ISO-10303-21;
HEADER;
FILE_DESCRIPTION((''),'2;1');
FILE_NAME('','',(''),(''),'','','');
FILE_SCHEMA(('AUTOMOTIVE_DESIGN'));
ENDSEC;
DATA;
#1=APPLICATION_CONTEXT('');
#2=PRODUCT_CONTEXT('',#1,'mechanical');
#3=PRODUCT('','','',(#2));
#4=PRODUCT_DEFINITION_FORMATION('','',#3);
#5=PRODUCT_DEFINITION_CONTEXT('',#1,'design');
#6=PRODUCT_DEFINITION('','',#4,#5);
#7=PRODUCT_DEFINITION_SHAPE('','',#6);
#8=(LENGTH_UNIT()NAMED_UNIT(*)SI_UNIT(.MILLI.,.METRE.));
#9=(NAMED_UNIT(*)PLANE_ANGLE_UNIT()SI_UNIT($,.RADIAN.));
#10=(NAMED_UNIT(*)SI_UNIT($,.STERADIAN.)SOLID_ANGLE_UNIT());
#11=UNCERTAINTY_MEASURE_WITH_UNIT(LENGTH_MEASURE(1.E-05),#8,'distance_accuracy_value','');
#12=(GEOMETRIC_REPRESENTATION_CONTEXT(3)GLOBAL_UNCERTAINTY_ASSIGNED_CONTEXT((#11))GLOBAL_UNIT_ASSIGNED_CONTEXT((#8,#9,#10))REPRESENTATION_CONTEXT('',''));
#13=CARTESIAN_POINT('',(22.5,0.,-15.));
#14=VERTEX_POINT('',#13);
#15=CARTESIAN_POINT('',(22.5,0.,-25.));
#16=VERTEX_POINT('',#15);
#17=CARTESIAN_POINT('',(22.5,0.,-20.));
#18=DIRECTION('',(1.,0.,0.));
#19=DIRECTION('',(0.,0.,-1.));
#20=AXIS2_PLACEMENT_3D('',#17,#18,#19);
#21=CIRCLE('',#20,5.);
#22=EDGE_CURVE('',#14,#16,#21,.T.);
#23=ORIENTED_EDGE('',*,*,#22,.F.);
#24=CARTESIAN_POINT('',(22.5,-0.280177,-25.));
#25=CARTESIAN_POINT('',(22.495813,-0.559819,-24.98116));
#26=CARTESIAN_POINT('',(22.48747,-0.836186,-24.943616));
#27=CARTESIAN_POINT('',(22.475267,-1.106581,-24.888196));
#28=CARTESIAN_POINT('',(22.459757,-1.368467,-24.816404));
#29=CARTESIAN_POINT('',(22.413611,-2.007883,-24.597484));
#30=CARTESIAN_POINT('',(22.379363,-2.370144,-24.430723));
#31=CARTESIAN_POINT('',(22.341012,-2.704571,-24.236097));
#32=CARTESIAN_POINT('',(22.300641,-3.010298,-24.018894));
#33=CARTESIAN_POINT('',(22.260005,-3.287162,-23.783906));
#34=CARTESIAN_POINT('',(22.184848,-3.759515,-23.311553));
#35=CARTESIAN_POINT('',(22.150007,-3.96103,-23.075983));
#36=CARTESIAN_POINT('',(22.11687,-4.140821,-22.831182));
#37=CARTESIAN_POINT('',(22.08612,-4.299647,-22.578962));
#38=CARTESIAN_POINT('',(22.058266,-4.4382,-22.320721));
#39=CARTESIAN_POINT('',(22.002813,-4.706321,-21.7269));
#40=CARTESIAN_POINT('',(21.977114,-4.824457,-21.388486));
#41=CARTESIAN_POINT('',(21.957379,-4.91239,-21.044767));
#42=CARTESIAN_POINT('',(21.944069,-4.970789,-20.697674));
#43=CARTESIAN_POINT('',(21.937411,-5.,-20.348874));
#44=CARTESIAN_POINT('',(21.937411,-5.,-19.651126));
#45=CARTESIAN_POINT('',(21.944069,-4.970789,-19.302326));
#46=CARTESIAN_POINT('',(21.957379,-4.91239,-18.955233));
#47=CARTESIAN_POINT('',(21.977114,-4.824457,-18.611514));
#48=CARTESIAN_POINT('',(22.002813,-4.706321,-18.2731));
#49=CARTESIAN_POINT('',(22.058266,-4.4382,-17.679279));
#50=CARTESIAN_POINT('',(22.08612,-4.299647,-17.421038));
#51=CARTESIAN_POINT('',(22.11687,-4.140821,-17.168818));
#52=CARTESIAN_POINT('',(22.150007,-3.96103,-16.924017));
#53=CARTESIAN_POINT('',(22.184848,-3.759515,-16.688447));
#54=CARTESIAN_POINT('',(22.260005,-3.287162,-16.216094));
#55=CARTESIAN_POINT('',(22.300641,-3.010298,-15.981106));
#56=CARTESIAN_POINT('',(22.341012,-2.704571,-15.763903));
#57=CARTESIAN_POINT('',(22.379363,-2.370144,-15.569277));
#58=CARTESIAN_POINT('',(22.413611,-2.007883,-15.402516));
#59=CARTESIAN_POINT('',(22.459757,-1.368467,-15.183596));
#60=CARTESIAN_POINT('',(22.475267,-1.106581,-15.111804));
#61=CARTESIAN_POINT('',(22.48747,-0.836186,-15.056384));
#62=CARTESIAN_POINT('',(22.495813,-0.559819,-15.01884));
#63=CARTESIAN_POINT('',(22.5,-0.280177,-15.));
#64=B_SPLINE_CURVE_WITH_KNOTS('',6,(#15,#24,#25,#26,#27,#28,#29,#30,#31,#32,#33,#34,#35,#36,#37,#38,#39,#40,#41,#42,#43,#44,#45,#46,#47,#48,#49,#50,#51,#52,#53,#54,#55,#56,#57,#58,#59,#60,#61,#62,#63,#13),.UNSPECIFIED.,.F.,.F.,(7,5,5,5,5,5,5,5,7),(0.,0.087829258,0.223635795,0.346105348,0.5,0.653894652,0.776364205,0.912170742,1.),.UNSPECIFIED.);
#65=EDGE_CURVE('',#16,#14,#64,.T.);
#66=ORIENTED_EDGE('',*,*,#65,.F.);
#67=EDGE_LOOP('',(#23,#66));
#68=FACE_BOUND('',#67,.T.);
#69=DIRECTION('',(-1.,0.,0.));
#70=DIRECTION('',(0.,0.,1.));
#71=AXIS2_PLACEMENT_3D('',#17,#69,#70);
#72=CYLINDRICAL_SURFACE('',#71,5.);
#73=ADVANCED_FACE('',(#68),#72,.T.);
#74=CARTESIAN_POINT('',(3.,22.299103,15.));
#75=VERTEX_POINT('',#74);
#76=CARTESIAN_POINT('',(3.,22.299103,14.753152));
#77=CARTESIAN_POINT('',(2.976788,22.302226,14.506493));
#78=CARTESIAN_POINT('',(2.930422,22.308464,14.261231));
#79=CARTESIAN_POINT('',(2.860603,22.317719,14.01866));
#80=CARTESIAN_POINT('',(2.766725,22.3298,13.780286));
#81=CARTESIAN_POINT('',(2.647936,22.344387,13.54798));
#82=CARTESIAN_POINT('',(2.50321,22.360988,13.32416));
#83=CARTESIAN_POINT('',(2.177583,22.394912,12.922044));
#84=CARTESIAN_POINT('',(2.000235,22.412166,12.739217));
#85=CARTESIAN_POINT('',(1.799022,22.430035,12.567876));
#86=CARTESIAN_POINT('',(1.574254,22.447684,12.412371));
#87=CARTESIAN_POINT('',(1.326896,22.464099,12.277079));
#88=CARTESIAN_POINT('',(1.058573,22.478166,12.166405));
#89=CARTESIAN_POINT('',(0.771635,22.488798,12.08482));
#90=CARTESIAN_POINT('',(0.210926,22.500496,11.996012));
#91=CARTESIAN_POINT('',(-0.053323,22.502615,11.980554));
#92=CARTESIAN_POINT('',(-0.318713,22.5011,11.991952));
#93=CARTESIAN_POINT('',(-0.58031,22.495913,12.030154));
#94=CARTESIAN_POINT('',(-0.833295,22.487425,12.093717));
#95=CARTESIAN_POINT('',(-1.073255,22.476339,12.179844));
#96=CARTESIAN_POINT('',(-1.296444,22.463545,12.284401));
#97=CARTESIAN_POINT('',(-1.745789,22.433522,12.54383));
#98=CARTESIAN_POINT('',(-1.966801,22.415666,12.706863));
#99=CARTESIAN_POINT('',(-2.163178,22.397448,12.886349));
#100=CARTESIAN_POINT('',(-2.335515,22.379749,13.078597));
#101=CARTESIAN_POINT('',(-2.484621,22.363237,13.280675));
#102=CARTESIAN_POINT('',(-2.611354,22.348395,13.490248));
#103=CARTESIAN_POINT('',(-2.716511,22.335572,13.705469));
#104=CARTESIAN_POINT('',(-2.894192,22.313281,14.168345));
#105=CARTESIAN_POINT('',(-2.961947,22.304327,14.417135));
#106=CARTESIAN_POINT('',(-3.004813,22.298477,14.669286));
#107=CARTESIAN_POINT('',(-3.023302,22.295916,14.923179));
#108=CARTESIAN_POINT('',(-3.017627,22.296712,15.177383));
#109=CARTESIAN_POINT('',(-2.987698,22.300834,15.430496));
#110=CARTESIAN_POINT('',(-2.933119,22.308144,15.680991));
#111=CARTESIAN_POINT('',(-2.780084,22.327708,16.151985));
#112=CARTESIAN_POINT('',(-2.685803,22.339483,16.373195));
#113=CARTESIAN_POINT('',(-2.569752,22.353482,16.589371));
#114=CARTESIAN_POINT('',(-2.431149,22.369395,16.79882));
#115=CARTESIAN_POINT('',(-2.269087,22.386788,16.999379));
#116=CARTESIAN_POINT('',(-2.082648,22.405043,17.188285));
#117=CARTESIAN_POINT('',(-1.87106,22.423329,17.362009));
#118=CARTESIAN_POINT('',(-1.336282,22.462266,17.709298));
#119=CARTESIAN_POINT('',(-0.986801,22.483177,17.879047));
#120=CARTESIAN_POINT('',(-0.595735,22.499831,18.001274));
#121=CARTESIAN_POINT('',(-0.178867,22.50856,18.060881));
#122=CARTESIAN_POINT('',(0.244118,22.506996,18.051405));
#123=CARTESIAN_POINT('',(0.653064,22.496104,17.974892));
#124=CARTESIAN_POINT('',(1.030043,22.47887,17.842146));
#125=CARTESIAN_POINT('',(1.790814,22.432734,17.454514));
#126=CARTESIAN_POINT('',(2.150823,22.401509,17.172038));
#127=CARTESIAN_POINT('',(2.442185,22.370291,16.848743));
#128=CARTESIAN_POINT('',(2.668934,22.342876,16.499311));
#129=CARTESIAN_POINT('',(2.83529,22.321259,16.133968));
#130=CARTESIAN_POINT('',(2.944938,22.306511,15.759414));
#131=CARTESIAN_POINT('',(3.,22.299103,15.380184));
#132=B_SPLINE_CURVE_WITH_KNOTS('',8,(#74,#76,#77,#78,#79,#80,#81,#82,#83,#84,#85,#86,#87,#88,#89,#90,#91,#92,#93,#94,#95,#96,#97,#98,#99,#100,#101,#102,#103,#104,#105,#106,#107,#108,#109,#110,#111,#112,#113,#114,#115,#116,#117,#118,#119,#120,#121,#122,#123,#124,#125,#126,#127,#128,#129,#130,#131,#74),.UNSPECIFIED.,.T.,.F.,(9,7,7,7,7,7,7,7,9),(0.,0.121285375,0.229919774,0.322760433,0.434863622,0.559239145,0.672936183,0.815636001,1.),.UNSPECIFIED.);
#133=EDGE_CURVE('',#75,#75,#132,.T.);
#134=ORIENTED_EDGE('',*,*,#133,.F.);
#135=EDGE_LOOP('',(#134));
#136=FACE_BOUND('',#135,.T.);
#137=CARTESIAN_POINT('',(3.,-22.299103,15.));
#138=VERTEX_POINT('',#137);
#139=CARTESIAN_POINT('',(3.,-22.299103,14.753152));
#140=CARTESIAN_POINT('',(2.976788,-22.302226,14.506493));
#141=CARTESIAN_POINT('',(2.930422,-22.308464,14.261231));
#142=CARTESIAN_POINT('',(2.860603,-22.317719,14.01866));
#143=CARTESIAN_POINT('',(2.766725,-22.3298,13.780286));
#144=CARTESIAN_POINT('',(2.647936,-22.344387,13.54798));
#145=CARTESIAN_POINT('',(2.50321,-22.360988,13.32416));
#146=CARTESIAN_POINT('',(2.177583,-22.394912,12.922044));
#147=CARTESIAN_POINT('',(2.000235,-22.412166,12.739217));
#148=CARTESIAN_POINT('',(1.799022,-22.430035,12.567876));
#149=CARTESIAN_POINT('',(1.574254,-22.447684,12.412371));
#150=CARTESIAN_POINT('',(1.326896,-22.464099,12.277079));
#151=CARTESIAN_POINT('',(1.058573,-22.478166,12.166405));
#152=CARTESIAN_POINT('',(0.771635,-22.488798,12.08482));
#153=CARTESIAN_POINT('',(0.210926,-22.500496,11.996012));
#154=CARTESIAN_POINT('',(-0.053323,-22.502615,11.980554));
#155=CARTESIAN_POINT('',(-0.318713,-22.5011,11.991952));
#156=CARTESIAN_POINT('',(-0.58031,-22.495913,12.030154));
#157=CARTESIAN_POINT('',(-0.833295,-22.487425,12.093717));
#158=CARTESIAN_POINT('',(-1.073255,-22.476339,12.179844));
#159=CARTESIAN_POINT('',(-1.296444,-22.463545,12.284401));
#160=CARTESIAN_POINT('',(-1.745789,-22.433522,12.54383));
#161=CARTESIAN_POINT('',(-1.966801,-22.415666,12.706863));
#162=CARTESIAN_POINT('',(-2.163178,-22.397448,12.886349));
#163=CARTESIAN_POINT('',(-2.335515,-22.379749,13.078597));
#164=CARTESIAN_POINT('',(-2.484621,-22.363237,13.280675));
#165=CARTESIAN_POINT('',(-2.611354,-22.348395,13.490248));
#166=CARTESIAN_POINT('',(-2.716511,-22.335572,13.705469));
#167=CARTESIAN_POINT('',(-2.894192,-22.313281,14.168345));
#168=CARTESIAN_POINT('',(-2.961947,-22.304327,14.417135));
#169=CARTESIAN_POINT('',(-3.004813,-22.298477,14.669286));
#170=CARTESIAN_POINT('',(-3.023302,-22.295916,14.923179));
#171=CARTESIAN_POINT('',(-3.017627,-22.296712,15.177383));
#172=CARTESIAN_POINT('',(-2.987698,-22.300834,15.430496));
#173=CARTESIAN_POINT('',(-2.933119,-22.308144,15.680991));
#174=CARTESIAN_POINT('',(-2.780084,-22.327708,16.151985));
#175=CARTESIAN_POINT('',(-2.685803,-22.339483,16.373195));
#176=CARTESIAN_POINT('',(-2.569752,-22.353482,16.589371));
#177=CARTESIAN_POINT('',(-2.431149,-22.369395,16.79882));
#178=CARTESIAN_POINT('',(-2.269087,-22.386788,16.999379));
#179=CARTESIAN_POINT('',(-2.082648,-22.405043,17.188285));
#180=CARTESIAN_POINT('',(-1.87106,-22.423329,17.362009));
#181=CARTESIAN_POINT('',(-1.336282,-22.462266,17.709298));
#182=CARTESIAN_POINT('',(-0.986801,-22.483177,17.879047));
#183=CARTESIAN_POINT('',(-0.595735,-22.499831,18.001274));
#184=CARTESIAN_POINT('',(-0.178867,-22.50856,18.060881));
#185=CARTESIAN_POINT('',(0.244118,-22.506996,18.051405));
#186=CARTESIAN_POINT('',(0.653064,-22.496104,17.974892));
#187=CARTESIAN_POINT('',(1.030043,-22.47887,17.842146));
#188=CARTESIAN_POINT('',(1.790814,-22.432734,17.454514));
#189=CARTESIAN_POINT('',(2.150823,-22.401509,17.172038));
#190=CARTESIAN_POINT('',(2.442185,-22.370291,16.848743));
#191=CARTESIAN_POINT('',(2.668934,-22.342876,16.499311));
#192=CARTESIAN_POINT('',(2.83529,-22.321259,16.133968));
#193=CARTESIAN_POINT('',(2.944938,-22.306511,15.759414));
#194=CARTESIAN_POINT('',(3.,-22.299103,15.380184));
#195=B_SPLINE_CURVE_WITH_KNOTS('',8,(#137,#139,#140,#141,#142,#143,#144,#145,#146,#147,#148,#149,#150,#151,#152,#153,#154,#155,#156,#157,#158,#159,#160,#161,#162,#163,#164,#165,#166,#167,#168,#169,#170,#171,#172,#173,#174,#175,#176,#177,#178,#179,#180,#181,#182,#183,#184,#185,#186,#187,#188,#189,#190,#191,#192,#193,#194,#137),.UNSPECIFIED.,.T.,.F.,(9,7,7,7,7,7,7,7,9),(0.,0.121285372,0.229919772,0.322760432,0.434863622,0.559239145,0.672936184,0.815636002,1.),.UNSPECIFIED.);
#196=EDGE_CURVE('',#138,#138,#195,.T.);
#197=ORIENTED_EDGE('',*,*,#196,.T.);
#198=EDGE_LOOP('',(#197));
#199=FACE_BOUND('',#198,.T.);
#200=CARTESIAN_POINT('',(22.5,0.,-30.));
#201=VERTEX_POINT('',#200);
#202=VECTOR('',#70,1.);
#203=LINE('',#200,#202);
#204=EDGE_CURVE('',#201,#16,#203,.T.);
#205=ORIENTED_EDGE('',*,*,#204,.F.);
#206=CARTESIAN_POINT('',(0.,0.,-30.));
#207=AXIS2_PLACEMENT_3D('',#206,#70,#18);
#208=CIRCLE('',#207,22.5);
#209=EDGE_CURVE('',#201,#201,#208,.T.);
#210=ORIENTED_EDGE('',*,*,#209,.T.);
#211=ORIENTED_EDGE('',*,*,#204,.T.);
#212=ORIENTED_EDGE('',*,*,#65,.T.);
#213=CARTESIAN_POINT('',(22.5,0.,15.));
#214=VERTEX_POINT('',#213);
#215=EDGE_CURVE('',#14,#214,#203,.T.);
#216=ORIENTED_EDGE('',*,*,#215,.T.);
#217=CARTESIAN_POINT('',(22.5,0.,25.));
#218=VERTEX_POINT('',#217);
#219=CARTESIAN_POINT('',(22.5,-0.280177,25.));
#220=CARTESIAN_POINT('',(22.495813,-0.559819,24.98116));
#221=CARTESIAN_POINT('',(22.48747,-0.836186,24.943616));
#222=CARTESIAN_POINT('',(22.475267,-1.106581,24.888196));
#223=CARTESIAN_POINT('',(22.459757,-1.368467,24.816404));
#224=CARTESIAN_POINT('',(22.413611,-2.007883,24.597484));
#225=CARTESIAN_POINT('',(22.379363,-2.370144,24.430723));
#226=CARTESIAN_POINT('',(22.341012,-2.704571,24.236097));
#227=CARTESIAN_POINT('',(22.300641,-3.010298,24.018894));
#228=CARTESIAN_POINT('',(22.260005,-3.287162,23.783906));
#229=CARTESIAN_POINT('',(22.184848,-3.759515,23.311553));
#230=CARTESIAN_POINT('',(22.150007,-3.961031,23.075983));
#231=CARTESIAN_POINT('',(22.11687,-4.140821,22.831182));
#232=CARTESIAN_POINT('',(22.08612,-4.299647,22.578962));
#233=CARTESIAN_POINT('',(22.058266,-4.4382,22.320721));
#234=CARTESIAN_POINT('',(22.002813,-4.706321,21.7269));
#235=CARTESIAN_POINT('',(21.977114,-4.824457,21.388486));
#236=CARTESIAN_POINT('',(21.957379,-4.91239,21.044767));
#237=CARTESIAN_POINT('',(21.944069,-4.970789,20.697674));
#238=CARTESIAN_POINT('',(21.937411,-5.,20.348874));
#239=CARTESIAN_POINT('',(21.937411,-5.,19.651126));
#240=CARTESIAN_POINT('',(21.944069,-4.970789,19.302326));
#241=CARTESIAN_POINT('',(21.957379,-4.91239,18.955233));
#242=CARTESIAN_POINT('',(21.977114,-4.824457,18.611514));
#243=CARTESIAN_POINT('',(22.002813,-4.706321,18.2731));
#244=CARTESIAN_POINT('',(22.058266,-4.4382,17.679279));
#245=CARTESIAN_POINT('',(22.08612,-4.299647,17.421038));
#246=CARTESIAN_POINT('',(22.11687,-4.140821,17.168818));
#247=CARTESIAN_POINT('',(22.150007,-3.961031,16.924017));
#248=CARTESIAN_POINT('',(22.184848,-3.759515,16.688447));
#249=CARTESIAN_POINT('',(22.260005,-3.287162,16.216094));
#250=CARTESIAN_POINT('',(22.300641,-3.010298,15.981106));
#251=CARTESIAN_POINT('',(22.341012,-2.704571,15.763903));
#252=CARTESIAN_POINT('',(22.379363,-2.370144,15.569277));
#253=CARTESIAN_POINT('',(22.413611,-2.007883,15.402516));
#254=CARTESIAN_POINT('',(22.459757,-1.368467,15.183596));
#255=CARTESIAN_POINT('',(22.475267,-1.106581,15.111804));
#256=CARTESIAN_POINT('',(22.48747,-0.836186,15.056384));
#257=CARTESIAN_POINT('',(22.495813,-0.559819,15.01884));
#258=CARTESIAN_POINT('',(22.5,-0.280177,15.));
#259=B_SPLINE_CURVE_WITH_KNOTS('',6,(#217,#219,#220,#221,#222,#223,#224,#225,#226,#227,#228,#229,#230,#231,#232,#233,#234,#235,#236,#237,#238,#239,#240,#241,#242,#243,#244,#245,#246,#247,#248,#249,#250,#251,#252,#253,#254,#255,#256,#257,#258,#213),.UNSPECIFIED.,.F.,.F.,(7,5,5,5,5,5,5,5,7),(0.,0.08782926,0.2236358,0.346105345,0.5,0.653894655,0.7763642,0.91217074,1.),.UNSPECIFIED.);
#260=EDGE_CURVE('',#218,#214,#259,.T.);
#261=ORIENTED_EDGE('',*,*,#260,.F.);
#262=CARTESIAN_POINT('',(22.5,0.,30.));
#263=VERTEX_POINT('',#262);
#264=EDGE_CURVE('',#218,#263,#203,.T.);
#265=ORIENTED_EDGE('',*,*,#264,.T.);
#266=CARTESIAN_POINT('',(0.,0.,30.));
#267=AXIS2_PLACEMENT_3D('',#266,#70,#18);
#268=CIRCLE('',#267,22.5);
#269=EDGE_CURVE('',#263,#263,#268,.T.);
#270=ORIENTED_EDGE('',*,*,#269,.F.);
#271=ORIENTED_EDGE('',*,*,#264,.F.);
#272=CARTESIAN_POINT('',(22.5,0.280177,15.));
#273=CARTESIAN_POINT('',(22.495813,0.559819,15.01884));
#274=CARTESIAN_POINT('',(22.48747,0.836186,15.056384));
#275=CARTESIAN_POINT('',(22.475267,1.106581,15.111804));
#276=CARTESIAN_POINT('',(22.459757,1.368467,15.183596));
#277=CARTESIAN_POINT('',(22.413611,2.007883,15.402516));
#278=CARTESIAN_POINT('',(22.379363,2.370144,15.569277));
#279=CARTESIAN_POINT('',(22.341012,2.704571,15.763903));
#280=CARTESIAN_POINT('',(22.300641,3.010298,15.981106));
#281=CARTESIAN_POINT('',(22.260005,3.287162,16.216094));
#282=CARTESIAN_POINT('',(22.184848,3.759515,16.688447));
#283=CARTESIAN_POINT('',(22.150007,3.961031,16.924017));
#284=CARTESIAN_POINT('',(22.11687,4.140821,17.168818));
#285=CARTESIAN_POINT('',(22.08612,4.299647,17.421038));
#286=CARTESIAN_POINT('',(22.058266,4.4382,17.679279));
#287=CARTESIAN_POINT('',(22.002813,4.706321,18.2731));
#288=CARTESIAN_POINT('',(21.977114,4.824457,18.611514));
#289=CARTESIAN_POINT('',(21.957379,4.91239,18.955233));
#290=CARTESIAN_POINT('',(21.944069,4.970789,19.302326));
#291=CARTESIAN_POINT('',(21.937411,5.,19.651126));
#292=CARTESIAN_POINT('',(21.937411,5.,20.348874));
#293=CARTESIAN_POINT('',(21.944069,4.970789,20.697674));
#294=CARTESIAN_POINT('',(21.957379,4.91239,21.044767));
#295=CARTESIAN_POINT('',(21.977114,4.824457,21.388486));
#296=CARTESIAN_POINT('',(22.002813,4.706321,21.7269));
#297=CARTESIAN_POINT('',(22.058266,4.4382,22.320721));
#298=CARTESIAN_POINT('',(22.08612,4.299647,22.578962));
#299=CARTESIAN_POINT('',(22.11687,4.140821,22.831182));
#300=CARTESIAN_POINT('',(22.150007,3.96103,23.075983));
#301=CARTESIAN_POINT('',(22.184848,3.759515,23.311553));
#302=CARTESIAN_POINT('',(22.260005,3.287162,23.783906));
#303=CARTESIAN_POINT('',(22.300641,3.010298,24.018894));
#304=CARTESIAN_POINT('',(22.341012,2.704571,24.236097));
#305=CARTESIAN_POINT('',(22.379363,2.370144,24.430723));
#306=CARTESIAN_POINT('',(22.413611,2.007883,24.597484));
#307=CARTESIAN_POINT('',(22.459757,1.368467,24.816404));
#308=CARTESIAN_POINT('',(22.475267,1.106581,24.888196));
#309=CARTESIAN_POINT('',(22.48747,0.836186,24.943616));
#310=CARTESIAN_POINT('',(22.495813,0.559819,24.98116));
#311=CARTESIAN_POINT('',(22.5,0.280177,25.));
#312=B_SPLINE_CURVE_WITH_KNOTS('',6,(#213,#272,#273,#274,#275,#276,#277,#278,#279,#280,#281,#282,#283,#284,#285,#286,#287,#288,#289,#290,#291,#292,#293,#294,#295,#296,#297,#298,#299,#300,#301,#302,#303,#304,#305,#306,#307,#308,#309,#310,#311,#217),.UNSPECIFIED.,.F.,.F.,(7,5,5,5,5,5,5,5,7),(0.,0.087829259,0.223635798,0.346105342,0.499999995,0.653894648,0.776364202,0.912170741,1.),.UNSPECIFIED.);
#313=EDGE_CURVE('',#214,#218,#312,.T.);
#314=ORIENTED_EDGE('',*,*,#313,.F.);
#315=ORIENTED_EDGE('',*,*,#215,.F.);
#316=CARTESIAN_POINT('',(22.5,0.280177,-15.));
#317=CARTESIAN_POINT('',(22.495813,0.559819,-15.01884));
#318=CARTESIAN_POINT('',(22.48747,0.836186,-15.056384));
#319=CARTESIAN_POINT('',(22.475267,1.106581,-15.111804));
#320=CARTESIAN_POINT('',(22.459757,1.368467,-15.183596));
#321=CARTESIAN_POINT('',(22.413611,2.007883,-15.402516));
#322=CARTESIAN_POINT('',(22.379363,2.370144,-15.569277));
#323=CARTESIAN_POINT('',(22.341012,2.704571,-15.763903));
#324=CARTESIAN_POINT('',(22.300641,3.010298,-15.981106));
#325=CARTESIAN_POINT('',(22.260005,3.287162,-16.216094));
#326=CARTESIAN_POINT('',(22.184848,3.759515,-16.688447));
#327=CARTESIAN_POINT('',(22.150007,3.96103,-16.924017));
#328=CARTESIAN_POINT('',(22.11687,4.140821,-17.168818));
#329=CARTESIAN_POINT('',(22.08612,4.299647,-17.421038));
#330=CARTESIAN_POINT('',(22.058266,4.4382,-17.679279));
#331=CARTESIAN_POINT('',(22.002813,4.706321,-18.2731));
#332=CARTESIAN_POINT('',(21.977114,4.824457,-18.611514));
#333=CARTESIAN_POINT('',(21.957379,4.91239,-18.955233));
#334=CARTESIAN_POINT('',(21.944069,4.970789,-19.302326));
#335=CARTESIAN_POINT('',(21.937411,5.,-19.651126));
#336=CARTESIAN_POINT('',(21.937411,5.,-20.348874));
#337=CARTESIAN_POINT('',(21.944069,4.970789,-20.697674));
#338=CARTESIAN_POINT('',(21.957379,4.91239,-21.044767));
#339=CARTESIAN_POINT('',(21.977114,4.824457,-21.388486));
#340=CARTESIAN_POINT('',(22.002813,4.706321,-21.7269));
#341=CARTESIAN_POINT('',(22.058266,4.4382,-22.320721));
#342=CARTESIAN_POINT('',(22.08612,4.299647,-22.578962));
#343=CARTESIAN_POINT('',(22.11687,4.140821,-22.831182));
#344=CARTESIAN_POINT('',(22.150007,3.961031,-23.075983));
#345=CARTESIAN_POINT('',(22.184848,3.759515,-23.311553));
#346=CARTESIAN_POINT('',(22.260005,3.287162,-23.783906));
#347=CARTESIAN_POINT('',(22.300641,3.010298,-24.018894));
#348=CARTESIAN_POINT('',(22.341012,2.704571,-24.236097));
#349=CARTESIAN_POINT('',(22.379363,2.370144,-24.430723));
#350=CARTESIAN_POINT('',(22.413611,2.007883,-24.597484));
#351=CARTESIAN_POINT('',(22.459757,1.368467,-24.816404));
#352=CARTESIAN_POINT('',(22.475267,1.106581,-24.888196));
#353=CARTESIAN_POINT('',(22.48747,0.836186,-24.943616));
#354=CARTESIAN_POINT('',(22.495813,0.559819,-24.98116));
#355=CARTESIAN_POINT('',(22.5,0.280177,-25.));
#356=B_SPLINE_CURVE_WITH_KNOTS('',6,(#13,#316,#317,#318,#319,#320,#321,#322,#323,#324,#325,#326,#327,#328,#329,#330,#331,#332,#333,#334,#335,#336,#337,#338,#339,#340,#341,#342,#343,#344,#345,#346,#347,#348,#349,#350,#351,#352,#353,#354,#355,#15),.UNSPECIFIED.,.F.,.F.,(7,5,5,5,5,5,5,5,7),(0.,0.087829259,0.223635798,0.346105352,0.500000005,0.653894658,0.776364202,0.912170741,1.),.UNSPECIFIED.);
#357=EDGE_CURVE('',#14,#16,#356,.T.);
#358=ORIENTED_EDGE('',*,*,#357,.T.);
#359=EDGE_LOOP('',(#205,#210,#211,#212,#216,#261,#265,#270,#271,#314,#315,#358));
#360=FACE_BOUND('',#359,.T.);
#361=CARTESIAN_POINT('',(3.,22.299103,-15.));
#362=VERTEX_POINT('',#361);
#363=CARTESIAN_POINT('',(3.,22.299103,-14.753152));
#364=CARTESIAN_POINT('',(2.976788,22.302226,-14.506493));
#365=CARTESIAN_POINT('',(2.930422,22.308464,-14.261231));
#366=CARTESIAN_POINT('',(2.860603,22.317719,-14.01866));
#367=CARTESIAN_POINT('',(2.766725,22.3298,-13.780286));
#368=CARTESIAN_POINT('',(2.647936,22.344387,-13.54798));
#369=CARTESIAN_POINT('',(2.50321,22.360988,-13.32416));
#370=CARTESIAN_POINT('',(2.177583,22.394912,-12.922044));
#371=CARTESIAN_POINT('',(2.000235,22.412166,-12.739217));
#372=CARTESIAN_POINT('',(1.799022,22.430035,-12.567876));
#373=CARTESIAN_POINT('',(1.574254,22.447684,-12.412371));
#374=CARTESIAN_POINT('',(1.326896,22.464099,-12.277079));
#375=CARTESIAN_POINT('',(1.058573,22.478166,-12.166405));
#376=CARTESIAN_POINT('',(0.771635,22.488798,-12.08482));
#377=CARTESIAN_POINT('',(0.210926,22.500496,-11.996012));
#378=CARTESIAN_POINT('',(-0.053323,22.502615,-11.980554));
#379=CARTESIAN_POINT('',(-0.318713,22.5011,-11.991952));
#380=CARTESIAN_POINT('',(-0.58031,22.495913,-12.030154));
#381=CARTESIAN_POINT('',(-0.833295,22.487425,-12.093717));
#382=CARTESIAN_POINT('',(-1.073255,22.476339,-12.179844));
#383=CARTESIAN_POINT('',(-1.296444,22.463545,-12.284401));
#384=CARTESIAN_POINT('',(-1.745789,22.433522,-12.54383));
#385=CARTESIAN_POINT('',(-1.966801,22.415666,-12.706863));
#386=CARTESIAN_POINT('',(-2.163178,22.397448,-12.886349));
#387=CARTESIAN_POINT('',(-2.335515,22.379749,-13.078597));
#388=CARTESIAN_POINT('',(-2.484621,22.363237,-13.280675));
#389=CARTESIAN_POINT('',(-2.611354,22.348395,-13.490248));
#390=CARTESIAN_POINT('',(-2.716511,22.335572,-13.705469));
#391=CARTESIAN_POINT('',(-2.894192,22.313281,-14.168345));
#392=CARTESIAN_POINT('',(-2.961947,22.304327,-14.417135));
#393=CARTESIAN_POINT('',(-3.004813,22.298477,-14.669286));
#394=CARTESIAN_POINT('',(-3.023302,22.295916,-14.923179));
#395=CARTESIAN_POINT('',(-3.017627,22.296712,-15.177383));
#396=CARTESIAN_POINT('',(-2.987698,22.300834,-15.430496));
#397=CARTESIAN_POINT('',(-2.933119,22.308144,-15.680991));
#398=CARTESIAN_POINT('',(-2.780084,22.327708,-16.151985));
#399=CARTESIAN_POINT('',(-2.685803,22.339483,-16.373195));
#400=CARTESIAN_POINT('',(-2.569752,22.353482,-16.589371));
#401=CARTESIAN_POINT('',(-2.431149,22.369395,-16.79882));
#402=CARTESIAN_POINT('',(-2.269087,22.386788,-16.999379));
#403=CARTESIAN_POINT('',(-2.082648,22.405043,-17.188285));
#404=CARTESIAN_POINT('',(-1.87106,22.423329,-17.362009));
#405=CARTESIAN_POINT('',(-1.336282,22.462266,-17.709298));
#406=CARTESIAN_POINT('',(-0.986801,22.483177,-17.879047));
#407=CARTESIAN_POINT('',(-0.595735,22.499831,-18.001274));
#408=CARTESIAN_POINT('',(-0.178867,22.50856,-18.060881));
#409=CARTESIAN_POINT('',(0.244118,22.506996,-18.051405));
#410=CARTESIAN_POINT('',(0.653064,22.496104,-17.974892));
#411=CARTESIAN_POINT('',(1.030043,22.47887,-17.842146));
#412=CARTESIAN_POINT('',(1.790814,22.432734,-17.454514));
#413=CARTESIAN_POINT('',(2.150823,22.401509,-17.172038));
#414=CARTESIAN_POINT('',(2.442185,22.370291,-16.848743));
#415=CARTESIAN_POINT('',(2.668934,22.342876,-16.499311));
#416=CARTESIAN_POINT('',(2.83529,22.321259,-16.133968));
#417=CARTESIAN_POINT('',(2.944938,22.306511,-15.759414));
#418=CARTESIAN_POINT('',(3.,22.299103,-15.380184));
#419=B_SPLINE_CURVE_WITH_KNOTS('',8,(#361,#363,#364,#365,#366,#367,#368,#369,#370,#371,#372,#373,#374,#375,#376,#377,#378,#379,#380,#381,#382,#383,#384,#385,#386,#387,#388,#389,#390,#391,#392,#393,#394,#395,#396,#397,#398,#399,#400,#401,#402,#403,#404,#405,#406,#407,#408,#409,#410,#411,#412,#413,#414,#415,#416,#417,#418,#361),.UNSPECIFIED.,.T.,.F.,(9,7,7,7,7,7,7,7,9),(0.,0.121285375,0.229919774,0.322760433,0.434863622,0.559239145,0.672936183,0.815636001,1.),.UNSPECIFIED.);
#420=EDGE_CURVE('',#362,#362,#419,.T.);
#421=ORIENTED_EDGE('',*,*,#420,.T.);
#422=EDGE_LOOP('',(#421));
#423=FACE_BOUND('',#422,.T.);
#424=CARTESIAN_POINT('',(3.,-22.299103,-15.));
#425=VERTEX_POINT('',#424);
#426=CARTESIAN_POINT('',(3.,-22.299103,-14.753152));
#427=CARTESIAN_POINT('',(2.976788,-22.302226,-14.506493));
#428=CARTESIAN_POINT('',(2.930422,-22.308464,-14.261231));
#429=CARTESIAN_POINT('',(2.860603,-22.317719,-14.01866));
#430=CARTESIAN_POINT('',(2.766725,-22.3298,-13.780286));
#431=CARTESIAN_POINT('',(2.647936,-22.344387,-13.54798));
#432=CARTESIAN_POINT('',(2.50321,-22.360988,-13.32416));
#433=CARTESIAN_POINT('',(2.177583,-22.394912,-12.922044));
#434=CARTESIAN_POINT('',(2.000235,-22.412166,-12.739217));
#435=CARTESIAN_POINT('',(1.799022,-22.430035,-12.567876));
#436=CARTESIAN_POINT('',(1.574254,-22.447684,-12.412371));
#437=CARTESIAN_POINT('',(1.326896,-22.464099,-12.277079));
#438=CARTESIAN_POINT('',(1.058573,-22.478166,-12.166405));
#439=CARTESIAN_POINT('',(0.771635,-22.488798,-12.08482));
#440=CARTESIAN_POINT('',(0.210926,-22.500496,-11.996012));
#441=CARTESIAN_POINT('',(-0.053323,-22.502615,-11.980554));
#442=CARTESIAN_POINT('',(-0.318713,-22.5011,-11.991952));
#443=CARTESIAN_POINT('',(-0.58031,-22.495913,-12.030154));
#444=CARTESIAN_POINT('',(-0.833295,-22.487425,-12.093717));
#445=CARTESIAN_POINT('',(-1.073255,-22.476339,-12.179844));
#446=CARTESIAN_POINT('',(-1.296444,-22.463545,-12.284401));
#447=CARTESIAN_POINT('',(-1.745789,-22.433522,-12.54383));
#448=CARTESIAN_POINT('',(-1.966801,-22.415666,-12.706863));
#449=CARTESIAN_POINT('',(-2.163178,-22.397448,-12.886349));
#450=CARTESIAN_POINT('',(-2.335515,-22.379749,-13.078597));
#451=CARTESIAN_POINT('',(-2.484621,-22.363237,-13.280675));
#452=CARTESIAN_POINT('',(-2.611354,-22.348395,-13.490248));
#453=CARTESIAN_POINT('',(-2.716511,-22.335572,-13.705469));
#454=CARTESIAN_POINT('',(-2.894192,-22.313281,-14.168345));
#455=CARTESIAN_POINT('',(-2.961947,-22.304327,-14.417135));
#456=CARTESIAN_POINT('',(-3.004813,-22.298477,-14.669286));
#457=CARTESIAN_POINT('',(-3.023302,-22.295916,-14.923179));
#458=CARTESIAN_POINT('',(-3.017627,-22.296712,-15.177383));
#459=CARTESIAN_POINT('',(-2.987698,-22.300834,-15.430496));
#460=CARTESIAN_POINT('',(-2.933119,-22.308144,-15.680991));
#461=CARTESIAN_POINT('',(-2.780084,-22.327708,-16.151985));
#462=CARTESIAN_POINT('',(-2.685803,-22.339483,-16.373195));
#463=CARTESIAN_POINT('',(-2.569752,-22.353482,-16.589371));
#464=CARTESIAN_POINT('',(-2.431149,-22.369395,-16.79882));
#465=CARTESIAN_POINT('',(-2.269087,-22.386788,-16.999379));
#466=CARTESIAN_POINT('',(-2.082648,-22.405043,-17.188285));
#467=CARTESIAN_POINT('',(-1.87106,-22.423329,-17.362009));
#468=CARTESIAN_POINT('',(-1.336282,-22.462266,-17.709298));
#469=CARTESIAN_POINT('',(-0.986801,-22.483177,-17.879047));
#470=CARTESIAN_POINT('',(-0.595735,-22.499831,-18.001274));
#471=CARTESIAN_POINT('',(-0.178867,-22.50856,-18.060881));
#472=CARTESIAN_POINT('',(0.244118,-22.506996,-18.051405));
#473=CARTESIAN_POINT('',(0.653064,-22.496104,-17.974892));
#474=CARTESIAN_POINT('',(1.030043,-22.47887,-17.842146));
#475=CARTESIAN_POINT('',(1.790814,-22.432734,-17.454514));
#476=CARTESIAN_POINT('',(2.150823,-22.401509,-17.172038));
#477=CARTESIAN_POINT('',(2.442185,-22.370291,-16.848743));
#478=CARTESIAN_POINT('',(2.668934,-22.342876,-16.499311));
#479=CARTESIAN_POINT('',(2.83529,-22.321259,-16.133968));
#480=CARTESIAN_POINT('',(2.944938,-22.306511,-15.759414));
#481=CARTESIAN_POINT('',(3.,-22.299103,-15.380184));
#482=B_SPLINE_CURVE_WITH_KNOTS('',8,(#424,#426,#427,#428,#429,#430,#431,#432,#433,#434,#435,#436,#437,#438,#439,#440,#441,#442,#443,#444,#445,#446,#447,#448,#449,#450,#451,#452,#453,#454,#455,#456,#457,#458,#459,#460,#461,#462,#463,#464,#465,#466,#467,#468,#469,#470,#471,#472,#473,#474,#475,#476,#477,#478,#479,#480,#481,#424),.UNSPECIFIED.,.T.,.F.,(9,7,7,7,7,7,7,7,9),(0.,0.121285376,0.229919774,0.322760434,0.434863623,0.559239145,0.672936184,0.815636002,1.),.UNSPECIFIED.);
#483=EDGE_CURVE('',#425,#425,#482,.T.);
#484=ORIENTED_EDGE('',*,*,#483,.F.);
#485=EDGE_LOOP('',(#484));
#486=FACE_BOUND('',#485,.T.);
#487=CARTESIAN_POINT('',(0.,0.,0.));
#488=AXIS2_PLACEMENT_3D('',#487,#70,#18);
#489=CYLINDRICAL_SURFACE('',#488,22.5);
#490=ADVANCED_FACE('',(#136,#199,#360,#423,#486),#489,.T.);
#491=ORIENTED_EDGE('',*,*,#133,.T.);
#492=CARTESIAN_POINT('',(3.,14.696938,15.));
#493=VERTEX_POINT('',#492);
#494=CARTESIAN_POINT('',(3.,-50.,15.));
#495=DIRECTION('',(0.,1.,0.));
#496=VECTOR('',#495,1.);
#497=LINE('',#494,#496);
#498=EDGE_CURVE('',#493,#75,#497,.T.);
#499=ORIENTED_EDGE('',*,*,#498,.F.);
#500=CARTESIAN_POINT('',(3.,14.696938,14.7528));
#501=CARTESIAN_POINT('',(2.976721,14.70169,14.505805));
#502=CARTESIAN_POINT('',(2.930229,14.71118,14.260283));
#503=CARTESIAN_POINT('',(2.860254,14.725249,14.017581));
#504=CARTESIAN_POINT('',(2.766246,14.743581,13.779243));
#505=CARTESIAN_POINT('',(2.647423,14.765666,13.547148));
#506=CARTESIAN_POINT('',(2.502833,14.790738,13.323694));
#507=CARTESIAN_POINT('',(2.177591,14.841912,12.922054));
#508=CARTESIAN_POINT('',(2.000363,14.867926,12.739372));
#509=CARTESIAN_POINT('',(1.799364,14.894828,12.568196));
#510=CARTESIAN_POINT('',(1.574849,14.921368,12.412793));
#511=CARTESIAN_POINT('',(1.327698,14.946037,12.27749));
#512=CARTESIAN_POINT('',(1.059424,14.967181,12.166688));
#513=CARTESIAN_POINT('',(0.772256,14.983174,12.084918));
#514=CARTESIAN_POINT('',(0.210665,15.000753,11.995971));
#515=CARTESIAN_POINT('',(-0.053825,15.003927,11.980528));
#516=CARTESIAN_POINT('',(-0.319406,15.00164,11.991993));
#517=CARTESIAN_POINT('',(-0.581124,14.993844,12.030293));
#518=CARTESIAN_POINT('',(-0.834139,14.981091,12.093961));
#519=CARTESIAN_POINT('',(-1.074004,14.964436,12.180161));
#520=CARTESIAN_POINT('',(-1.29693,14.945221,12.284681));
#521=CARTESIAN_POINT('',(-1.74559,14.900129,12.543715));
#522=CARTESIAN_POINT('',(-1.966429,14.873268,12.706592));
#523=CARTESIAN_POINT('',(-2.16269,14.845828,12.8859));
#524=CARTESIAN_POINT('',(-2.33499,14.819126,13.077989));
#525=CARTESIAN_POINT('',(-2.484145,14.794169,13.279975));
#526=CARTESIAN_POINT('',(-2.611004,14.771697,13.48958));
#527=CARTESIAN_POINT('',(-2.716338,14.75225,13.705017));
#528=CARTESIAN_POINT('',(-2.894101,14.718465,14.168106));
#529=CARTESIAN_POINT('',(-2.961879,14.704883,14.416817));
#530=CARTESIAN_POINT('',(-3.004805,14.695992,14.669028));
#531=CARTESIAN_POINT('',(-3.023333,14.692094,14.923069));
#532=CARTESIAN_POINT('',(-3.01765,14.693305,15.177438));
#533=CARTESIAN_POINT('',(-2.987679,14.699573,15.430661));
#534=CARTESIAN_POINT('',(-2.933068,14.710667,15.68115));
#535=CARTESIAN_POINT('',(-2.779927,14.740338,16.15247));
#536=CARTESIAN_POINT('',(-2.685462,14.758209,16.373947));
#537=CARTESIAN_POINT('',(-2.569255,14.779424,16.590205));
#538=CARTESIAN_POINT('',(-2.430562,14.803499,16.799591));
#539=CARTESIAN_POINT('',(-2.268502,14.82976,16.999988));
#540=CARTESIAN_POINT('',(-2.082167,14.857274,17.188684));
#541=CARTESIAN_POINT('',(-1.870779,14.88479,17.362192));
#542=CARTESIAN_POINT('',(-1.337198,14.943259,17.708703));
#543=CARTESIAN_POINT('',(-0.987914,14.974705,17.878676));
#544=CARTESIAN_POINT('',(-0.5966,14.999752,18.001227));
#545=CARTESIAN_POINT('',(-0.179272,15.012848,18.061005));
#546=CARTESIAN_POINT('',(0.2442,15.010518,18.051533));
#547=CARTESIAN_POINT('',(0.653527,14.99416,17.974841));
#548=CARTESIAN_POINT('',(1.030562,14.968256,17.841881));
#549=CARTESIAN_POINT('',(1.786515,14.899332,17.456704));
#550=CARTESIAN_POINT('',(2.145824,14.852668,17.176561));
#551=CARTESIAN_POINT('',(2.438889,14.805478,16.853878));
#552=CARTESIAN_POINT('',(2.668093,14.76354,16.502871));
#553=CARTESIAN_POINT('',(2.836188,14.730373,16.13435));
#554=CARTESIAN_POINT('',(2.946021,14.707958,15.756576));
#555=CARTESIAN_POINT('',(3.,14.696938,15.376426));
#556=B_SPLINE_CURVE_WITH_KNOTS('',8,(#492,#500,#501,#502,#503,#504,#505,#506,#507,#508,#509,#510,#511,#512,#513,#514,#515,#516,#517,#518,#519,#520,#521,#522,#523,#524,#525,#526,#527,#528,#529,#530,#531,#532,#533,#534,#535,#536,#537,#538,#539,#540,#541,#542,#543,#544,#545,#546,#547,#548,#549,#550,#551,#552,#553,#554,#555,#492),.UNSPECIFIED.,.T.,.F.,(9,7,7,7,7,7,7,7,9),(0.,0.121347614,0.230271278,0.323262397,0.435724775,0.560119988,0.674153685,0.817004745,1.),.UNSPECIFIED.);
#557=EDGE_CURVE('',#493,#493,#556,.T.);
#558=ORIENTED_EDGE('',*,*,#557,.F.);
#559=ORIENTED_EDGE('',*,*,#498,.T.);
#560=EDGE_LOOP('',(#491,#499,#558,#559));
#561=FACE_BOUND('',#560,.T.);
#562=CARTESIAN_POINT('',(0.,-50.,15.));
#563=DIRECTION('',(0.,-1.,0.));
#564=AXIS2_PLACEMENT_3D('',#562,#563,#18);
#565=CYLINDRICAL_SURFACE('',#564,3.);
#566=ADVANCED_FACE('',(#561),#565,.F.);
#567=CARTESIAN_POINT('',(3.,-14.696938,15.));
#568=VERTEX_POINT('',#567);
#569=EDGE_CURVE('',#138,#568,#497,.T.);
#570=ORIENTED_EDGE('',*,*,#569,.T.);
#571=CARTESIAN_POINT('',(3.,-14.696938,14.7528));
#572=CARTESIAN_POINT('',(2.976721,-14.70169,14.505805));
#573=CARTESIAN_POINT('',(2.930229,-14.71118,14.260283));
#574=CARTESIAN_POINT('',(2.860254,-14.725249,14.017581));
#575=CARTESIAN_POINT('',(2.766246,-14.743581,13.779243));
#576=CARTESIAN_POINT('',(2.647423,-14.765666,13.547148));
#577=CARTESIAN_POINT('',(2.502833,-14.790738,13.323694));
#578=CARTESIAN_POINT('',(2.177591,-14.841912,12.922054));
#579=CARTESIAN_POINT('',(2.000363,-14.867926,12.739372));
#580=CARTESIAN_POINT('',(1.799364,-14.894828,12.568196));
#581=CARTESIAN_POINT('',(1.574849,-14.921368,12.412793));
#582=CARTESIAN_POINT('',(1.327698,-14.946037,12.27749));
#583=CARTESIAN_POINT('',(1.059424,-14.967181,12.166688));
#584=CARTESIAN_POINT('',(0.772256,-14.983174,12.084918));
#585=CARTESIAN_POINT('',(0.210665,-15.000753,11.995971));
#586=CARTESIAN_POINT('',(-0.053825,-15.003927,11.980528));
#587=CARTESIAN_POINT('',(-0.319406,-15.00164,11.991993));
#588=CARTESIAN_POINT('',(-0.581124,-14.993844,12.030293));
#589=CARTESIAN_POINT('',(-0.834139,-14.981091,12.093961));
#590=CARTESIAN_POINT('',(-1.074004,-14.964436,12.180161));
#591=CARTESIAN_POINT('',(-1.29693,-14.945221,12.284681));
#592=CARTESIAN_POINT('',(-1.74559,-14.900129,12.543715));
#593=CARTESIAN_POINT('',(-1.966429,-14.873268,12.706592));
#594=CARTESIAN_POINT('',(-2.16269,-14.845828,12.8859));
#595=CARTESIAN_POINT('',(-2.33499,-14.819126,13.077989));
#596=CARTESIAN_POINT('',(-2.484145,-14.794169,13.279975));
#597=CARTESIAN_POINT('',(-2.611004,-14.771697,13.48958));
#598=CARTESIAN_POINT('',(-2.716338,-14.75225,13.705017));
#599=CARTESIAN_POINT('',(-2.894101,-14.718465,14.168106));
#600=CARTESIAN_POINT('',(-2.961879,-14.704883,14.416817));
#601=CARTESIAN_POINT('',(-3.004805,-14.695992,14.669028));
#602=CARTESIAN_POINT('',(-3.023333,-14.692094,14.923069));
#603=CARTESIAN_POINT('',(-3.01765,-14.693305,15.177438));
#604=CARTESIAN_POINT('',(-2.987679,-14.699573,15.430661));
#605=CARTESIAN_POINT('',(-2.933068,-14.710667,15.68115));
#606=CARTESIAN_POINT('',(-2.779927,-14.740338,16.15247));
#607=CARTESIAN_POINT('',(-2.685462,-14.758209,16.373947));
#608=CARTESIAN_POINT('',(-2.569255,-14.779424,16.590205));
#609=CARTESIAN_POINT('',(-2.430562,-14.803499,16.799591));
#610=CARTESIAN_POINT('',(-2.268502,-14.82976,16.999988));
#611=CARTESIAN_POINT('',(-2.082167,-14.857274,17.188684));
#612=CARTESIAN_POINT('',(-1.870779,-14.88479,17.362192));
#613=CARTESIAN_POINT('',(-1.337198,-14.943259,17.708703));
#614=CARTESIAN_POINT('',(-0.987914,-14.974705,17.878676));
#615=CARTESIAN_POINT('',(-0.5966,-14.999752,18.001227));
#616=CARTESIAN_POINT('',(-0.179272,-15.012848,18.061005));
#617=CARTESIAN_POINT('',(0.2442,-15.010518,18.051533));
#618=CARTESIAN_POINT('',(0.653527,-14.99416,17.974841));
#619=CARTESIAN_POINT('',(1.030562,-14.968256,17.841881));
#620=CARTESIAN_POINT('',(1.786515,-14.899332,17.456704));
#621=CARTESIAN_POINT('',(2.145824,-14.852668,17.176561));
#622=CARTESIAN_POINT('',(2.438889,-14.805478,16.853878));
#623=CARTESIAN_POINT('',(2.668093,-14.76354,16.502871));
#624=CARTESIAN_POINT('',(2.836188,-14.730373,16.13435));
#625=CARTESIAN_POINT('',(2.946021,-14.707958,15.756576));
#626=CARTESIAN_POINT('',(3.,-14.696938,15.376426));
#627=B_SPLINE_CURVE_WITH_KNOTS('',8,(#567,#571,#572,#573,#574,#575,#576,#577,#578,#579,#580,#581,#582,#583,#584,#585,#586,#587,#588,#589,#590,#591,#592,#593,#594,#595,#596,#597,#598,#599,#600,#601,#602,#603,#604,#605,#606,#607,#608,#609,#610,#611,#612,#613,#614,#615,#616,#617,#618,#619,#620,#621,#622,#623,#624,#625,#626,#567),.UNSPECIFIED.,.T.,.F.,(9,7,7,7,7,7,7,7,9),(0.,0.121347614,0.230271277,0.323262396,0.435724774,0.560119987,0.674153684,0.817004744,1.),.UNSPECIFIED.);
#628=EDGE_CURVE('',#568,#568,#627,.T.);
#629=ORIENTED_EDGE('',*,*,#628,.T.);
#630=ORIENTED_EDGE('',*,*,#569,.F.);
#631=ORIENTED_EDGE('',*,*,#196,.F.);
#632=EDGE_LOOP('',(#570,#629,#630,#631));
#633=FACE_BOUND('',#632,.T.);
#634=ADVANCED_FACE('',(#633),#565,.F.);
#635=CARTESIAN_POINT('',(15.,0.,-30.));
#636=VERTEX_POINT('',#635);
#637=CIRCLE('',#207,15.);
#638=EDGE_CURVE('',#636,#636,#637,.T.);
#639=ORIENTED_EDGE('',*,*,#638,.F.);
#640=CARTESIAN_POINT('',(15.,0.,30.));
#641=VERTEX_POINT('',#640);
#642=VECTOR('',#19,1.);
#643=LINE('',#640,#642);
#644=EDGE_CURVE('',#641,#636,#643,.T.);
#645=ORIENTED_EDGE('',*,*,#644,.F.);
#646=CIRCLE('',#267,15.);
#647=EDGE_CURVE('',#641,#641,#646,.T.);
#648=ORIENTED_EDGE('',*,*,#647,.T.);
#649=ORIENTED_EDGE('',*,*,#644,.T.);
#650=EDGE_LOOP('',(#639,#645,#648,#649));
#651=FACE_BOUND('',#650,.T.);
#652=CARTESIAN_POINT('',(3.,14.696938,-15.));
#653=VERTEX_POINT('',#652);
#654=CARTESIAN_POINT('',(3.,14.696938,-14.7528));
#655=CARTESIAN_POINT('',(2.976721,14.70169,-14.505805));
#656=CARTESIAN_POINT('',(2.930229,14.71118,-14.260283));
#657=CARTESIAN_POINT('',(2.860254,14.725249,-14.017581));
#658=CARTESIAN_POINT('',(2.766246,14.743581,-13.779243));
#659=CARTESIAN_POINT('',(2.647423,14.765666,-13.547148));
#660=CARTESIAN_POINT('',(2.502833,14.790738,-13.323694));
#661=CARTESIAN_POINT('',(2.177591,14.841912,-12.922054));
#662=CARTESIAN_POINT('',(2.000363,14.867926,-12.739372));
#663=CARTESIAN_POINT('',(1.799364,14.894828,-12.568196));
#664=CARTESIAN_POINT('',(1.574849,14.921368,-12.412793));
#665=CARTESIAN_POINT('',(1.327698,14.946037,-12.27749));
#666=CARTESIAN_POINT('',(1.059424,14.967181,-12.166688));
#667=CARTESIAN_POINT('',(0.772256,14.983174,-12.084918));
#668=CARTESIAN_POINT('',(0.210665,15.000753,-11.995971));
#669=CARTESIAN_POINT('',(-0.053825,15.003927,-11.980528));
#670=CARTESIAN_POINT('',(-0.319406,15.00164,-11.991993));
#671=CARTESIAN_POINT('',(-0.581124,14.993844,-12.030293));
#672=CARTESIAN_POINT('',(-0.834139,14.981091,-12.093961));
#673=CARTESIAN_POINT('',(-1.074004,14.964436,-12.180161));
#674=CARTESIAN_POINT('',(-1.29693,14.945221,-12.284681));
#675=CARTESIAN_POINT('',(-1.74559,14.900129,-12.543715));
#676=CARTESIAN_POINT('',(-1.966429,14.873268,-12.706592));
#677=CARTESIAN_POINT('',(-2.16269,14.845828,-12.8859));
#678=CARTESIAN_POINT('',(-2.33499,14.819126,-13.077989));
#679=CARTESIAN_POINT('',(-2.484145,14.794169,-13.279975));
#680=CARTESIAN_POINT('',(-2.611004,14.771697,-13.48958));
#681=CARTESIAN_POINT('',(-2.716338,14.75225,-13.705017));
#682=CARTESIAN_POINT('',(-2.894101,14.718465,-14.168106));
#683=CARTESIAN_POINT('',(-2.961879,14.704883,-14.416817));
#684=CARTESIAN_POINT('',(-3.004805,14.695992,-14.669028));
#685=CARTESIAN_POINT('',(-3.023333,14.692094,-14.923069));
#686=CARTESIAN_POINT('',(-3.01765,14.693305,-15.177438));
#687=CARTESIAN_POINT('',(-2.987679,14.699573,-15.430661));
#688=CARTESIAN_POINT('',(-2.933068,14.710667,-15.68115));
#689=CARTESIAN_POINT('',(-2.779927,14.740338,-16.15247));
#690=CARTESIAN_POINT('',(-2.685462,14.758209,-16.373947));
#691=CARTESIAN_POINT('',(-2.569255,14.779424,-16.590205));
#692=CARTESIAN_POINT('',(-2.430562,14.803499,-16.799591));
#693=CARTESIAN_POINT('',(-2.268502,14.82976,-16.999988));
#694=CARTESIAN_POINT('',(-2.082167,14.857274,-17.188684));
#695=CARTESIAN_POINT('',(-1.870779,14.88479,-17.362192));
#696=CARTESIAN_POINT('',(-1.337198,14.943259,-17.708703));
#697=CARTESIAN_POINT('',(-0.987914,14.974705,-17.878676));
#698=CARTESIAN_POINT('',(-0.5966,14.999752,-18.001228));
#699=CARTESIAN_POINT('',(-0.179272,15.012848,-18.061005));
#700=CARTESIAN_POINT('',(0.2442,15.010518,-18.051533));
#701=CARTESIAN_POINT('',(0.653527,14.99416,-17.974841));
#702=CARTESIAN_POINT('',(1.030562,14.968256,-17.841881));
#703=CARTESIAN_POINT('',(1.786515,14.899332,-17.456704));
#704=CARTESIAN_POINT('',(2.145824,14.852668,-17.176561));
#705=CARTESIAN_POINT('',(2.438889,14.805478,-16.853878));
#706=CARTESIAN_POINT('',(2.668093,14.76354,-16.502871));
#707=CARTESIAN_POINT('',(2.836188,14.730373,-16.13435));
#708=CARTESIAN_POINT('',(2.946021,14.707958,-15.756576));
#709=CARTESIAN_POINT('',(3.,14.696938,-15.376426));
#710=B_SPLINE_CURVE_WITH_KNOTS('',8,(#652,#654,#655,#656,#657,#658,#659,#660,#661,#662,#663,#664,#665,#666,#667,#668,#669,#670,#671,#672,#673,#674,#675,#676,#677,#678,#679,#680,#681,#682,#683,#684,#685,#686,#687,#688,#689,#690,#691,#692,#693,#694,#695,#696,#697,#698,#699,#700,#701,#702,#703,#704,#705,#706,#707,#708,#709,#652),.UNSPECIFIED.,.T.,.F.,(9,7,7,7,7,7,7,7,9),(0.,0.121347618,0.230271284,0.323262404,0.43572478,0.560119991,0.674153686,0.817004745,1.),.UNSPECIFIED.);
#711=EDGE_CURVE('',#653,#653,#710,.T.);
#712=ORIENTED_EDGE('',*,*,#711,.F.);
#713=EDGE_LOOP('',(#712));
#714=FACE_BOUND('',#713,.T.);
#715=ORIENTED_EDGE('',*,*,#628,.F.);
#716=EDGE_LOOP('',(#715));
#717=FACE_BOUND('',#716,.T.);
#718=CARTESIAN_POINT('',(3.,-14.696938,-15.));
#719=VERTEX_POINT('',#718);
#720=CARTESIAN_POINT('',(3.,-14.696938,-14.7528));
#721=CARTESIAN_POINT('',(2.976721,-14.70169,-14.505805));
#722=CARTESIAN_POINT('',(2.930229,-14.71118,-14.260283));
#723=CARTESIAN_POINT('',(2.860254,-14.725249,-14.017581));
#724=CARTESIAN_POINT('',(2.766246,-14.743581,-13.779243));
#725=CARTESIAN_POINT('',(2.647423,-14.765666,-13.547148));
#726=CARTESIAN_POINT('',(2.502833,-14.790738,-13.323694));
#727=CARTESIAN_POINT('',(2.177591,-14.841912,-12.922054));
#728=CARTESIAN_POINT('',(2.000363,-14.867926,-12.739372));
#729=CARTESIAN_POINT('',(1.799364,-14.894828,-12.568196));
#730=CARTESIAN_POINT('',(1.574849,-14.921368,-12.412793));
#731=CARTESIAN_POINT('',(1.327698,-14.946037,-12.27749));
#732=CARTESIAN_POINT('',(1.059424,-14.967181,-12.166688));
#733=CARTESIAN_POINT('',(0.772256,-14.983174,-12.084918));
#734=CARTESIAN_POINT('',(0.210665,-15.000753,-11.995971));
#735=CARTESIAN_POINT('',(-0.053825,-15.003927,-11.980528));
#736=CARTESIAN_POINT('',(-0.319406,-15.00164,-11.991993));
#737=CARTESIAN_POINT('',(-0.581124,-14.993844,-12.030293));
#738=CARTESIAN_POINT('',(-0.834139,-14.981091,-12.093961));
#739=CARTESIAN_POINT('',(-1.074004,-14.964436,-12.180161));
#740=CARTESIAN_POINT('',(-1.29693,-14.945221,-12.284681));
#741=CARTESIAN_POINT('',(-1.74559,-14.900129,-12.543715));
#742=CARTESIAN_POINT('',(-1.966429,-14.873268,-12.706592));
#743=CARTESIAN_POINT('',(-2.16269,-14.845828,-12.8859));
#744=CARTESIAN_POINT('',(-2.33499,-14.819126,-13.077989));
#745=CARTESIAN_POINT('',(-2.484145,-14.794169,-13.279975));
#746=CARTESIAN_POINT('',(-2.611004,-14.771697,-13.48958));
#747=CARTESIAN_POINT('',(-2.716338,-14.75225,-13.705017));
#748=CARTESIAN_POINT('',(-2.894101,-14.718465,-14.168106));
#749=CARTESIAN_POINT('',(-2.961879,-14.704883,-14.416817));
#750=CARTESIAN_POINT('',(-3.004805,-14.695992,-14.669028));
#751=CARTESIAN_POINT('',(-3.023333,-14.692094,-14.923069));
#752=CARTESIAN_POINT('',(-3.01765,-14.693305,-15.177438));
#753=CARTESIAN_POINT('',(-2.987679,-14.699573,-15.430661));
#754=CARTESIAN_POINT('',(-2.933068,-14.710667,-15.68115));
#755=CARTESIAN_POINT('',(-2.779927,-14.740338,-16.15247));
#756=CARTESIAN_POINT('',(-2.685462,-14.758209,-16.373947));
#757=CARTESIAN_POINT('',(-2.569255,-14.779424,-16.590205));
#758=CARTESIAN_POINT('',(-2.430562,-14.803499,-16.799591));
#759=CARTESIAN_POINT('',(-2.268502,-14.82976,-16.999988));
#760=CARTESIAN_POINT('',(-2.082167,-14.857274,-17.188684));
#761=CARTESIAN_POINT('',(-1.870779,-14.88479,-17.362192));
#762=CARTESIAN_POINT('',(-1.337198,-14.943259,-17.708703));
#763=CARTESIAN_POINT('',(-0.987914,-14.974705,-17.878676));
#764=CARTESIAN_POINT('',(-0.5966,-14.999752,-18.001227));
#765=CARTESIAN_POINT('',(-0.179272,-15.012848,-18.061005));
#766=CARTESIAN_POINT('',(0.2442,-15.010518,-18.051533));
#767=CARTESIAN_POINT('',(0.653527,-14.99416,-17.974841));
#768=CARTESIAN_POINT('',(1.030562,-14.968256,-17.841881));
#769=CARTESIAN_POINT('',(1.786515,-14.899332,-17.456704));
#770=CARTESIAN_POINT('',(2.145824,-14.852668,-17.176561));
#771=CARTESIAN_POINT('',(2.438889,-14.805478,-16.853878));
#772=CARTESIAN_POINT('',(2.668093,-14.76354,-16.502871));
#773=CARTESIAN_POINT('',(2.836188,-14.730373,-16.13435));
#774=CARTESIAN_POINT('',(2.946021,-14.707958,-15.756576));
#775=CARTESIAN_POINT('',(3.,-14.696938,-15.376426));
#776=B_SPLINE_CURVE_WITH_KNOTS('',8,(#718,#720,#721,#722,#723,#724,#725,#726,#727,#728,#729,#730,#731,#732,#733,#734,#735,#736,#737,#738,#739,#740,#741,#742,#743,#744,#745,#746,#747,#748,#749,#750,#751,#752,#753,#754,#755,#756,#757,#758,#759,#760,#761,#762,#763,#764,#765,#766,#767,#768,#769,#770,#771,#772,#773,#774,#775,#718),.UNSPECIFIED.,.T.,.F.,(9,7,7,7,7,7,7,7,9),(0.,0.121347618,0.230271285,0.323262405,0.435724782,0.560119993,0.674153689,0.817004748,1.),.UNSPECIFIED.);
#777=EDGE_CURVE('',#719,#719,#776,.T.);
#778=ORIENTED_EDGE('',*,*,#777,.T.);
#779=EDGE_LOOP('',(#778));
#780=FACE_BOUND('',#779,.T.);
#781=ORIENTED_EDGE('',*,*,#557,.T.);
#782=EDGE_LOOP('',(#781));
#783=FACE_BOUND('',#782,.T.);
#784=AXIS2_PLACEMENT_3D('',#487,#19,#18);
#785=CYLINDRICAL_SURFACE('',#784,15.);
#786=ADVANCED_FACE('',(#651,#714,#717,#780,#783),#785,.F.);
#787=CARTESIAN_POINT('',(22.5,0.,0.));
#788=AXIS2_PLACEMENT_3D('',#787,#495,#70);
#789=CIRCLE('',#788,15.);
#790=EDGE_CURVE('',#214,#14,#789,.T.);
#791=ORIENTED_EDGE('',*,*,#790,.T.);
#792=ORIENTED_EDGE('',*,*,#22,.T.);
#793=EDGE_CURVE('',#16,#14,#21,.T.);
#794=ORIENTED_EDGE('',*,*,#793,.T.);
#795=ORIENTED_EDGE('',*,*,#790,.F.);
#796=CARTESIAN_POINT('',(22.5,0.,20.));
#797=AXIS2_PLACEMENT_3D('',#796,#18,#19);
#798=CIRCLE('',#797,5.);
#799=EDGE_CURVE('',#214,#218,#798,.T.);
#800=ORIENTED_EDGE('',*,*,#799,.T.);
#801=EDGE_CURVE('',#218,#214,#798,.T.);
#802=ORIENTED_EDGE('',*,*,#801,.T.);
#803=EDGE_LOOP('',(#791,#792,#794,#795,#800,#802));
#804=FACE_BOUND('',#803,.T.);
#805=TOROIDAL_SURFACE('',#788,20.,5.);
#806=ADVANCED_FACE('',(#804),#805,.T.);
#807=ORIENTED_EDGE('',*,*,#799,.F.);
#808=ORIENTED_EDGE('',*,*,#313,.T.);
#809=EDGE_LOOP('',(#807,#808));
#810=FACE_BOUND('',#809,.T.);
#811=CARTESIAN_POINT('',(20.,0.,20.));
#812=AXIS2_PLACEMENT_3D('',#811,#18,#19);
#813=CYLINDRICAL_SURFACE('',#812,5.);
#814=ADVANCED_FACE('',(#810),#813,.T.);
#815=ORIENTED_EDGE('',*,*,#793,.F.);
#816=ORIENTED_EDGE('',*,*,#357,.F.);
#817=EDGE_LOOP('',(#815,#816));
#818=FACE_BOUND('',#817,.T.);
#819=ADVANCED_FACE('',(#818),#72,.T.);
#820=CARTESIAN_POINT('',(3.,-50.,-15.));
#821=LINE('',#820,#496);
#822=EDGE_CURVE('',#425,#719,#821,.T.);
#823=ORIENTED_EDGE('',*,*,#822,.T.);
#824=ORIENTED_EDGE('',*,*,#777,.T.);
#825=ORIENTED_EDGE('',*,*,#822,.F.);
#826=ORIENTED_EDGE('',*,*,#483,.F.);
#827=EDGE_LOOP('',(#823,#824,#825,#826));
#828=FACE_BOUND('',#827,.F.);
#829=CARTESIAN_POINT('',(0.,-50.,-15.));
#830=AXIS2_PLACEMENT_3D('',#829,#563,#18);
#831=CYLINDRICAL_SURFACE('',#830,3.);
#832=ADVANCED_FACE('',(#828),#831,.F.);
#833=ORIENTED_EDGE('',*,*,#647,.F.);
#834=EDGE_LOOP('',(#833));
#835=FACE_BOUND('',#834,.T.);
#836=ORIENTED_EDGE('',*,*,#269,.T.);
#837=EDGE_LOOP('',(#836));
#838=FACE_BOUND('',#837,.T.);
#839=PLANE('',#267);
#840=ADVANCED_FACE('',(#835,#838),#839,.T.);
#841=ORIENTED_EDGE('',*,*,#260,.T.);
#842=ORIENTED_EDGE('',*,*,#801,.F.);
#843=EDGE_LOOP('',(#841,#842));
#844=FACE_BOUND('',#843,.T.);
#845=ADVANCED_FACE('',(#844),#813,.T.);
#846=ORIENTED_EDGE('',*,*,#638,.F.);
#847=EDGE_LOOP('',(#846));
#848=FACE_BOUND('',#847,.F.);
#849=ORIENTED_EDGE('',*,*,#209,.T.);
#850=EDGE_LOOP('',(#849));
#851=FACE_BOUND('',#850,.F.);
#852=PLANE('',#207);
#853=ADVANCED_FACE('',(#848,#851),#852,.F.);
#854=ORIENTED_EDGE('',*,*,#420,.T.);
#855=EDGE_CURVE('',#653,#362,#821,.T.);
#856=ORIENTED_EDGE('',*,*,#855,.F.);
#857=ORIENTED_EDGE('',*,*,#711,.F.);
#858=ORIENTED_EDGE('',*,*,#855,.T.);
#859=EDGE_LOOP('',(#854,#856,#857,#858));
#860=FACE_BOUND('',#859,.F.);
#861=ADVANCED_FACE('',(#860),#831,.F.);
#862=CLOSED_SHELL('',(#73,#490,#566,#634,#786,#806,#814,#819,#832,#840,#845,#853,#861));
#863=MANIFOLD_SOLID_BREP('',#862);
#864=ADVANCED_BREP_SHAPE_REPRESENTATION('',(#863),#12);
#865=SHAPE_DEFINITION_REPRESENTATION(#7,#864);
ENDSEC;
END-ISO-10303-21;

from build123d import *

# Parameters (mm, degrees)
BOSS_EXTRUDE1_DEPTH      = 30
BOSS_EXTRUDE1_DEPTH_BACK = 30
SKETCH1_R                = 22.5
SKETCH1_R_2              = 15
CUT_EXTRUDE1_START       = -50
SKETCH2_R                = 3.000000000000001
CUT_EXTRUDE1_DEPTH       = 80
SKETCH4_R                = 5.000000000000001


with BuildPart() as part:
    # Sketch1 → Boss-Extrude1 (new, two sides: drawn at the far end of the back side and taken through both)
    with BuildSketch(Plane.XY.offset(-BOSS_EXTRUDE1_DEPTH_BACK)):
        Circle(SKETCH1_R)
        Circle(SKETCH1_R_2, mode=Mode.SUBTRACT)
    extrude(amount=BOSS_EXTRUDE1_DEPTH + BOSS_EXTRUDE1_DEPTH_BACK)

    # Sketch2 → Cut-Extrude1 (cut)
    with BuildSketch(Plane(origin=(0, 0, 0), x_dir=(1, 0, 0), z_dir=(0, 1, 0)).offset(CUT_EXTRUDE1_START)):
        with Locations((0, -15)):
            Circle(SKETCH2_R)
    cut_extrude1 = extrude(amount=CUT_EXTRUDE1_DEPTH, mode=Mode.SUBTRACT)

    # Mirror1: Cut-Extrude1 across plane
    add(cut_extrude1.mirror(Plane.XY), mode=Mode.SUBTRACT)

    # Sweep2: sweep along a path in Sketch3
    with BuildLine(Plane(origin=(0, 0, 0), x_dir=(1, 0, 0), z_dir=(0, 1, 0))) as sweep2_path:
        Line((20, -20), (22.500000000000004, -20))
        ThreePointArc((22.500000000000004, -20), (42.50000000000001, 0), (22.500000000000004, 20))
        Line((22.500000000000004, 20), (20.000000000000004, 20))
    # Sketch4 → Sweep2 (sweep)
    with BuildSketch(Plane(origin=(20, 0, 0), x_dir=(0, 0, -1), z_dir=(1, 0, 0))):
        with Locations((-20, 0)):
            Circle(SKETCH4_R)
    sweep(path=sweep2_path.line)


solid = part.part
